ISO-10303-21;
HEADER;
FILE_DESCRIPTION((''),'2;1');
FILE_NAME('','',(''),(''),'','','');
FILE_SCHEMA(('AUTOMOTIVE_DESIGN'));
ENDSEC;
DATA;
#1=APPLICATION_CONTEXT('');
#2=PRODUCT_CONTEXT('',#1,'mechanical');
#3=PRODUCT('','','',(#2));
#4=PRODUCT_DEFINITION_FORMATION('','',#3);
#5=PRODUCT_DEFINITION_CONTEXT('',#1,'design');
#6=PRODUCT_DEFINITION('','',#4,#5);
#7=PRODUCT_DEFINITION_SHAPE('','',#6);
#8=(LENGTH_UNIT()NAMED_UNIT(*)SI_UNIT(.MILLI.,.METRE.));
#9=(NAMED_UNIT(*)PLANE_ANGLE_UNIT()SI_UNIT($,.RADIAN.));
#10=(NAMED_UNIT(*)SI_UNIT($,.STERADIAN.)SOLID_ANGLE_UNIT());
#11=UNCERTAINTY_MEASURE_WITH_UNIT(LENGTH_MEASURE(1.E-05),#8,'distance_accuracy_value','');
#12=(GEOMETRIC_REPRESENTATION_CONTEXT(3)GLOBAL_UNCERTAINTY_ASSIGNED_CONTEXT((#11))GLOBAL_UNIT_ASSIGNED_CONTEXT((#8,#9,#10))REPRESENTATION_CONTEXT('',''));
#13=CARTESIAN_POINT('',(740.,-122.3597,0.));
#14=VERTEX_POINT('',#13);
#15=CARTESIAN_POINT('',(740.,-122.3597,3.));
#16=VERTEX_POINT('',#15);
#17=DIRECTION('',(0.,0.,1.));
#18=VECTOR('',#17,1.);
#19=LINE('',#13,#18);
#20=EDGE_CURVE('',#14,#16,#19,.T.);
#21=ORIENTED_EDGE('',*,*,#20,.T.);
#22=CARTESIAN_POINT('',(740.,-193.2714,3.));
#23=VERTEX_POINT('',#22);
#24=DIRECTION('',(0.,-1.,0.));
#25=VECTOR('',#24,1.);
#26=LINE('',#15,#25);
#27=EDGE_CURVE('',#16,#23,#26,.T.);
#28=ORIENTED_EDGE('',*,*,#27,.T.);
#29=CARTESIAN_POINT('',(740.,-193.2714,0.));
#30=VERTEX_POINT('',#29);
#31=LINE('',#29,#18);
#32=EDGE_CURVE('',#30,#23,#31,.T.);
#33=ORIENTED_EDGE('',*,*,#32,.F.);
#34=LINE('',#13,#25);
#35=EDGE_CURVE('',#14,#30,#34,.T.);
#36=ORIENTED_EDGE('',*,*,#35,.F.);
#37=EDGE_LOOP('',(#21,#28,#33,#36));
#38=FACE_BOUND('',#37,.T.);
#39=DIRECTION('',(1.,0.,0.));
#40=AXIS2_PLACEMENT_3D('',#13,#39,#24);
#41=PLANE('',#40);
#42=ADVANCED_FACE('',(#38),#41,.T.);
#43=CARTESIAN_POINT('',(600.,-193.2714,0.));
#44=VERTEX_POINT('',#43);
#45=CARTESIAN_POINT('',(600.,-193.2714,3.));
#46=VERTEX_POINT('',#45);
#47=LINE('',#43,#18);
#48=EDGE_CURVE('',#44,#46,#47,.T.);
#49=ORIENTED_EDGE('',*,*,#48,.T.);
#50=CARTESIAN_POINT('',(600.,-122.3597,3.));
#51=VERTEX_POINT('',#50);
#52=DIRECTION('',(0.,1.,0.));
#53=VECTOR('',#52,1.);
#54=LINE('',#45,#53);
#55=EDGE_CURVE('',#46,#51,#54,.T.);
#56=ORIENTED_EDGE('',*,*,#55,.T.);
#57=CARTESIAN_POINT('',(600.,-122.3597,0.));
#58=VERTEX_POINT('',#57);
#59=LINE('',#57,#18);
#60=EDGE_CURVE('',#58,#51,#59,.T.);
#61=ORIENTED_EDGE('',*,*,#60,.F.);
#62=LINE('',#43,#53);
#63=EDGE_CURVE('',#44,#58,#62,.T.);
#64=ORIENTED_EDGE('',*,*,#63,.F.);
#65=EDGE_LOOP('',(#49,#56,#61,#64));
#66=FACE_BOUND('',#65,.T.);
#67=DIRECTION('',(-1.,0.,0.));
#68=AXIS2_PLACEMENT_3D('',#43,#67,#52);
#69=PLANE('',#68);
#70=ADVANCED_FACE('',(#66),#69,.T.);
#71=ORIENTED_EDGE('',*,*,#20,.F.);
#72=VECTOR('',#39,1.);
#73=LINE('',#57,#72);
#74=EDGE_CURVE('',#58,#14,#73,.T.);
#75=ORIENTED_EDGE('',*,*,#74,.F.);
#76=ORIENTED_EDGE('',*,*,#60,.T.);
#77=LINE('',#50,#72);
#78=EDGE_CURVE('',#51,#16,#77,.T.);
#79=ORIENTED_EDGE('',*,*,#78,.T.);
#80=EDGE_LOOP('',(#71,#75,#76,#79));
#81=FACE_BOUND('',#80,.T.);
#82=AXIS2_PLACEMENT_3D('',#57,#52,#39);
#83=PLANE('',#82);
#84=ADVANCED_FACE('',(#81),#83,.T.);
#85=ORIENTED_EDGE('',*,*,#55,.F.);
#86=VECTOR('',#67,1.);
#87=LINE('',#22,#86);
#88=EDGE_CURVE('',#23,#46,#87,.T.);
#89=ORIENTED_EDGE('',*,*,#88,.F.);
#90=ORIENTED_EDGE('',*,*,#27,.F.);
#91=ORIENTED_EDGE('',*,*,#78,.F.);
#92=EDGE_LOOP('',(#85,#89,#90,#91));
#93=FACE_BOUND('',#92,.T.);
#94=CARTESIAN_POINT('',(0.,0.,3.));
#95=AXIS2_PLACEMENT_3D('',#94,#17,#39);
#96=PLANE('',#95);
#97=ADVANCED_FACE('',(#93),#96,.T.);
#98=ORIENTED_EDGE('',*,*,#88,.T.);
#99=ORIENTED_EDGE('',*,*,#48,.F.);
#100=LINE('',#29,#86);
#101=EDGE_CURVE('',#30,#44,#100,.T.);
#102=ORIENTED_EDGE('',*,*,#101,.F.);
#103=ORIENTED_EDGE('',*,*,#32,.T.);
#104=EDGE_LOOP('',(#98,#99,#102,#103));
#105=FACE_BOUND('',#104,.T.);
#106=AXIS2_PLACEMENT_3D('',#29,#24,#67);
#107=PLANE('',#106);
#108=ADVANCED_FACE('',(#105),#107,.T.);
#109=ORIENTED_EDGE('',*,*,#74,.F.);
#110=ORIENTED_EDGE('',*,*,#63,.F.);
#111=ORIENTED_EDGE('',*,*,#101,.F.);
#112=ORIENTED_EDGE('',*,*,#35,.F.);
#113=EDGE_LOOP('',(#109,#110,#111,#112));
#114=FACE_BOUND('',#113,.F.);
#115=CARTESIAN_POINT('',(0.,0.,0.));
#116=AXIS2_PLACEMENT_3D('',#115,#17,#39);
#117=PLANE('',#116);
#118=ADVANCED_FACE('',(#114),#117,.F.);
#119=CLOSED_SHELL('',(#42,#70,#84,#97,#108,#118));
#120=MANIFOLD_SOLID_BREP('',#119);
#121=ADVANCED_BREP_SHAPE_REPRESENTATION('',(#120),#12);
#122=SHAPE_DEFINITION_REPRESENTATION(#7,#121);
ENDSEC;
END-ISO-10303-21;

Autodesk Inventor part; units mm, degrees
ref_plane "YZ Plane" through (0, 0, 0) normal (1, 0, 0) x (0, 1, 0)
ref_plane "XZ Plane" through (0, 0, 0) normal (0, 1, 0) x (-1, 0, 0)
ref_plane "XY Plane" through (0, 0, 0) normal (0, 0, 1) x (1, 0, 0)
sketch "Sketch1" plane through (0, 0, 0) normal (0, 0, 1) x (1, 0, 0)
  line L0 (0, 0) -> (140, 0)
  line L1 (140, 0) -> (140, 300)
  line L2 (140, 300) -> (0, 300)
  line L3 (0, 300) -> (0, 0)
  line L4 (10, 290) -> (130, 290)
  line L5 (130, 290) -> (130, 10) construction
  line L6 (130, 10) -> (10, 10) construction
  line L7 (10, 10) -> (10, 290) construction
  line L8 (55.013, 210.0189) -> (44.1329, 210.0189) construction
  line L9 (10, 290) -> (130, 290) construction
  line L10 (70, 311.1686) -> (70, 319.6965) construction
  line L11 (64.8975, 210.0189) -> (64.8975, 204.1374) construction
  line L12 (75.1025, 210.0189) -> (75.1025, 204.1374) construction
  spline S0 degree 4 poles (64.8975, 210.0189) (64.8975, 218.5538) (47.6053, 225.9043) (40.8111, 229.8746) (18.3339, 245.7556) (11.7937, 258.2232) (10, 279.3922) (10, 290) knots 0 0 0 0 0 0.284812 0.471394 0.66948 1 1 1 1 1
  line L13 (10, 290) -> (10, 266.9306) construction
  spline S1 degree 4 poles (75.1025, 210.0189) (75.1025, 218.5538) (92.3947, 225.9043) (99.1889, 229.8746) (121.6661, 245.7556) (128.2063, 258.2232) (130, 279.3922) (130, 290) knots 0 0 0 0 0 0.284812 0.471394 0.66948 1 1 1 1 1
  spline S2 degree 4 poles (64.8975, 210.0189) (64.8975, 201.4839) (47.6053, 194.1334) (40.8111, 190.1632) (18.3339, 174.2821) (11.7937, 161.8145) (10, 140.6455) (10, 130.0377) knots 0 0 0 0 0 0.284812 0.471394 0.66948 1 1 1 1 1
  spline S3 degree 4 poles (75.1025, 210.0189) (75.1025, 201.4839) (92.3947, 194.1334) (99.1889, 190.1632) (121.6661, 174.2821) (128.2063, 161.8145) (130, 140.6455) (130, 130.0377) knots 0 0 0 0 0 0.284812 0.471394 0.66948 1 1 1 1 1
  line L14 (10, 130.0377) -> (10, 10)
  line L15 (130, 130.0377) -> (130, 10)
  line L16 (10, 10) -> (130, 10)
  line L17 (240, 186.8124) -> (240, 163.5372) construction
  line L18 (480, 0) -> (340, 0) construction
  line L19 (340, 0) -> (340, 300) construction
  line L20 (340, 300) -> (480, 300) construction
  line L21 (480, 300) -> (480, 0) construction
  line L22 (470, 290) -> (350, 290) construction
  line L23 (350, 290) -> (350, 10) construction
  line L24 (350, 10) -> (470, 10) construction
  line L25 (470, 10) -> (470, 290) construction
  line L26 (424.987, 210.0189) -> (435.8671, 210.0189) construction
  line L27 (470, 290) -> (350, 290) construction
  line L28 (410, 311.1686) -> (410, 319.6965) construction
  line L29 (415.1025, 210.0189) -> (415.1025, 204.1374) construction
  line L30 (404.8975, 210.0189) -> (404.8975, 204.1374) construction
  spline S4 degree 4 poles (415.1025, 210.0189) (415.1025, 218.5538) (432.3947, 225.9043) (439.1889, 229.8746) (461.6661, 245.7556) (468.2063, 258.2232) (470, 279.3922) (470, 290) knots 0 0 0 0 0 0.284812 0.471394 0.66948 1 1 1 1 1 construction
  line L31 (470, 290) -> (470, 266.9306) construction
  spline S5 degree 4 poles (404.8975, 210.0189) (394.814, 224.8509) (381.6315, 227.4313) (352.9317, 245.1456) (350.4567, 267.2032) (350, 290) knots 0 0 0 0 0 0.471394 1 1 1 1 1 construction
  spline S6 degree 4 poles (415.1025, 210.0189) (425.186, 195.1868) (438.3685, 192.6065) (467.0683, 174.8921) (469.5433, 152.8345) (470, 130.0377) knots 0 0 0 0 0 0.471394 1 1 1 1 1 construction
  spline S7 degree 4 poles (404.8975, 210.0189) (394.814, 195.1868) (381.6315, 192.6065) (352.9317, 174.8921) (350.4567, 152.8345) (350, 130.0377) knots 0 0 0 0 0 0.471394 1 1 1 1 1 construction
  line L32 (355, 14.5) -> (355, 130.0377)
  line L33 (355, 130.0377) -> (357, 130.0377)
  line L34 (357, 130.0377) -> (357, 14.5)
  arc A0 (353.5, 13) -> (355, 14.5) centre (353.5, 14.5) ccw
  arc A1 (351, 14.5) -> (352.5, 13) centre (352.5, 14.5) ccw construction
  line L35 (352.5, 13) -> (353.5, 13)
  arc A2 (357, 14.5) -> (358.5, 13) centre (358.5, 14.5) ccw
  line L36 (358.5, 13) -> (359.5, 13)
  line L37 (361, 14.5) -> (361, 130.0377)
  line L38 (363, 130.0377) -> (363, 14.5)
  arc A3 (359.5, 13) -> (361, 14.5) centre (359.5, 14.5) ccw
  line L39 (361, 130.0377) -> (363, 130.0377)
  arc A4 (363, 14.5) -> (364.5, 13) centre (364.5, 14.5) ccw
  line L40 (364.5, 13) -> (365.5, 13)
  line L41 (367, 14.5) -> (367, 130.0377)
  line L42 (369, 130.0377) -> (369, 14.5)
  arc A5 (365.5, 13) -> (367, 14.5) centre (365.5, 14.5) ccw
  line L43 (367, 130.0377) -> (369, 130.0377)
  arc A6 (369, 14.5) -> (370.5, 13) centre (370.5, 14.5) ccw
  line L44 (370.5, 13) -> (371.5, 13)
  line L45 (373, 14.5) -> (373, 130.0377)
  line L46 (375, 130.0377) -> (375, 14.5)
  arc A7 (371.5, 13) -> (373, 14.5) centre (371.5, 14.5) ccw
  line L47 (373, 130.0377) -> (375, 130.0377)
  arc A8 (375, 14.5) -> (376.5, 13) centre (376.5, 14.5) ccw
  line L48 (376.5, 13) -> (377.5, 13)
  line L49 (379, 14.5) -> (379, 130.0377)
  line L50 (381, 130.0377) -> (381, 14.5)
  arc A9 (377.5, 13) -> (379, 14.5) centre (377.5, 14.5) ccw
  line L51 (379, 130.0377) -> (381, 130.0377)
  arc A10 (381, 14.5) -> (382.5, 13) centre (382.5, 14.5) ccw
  line L52 (382.5, 13) -> (383.5, 13)
  line L53 (385, 14.5) -> (385, 130.0377)
  line L54 (387, 130.0377) -> (387, 14.5)
  arc A11 (383.5, 13) -> (385, 14.5) centre (383.5, 14.5) ccw
  line L55 (385, 130.0377) -> (387, 130.0377)
  arc A12 (387, 14.5) -> (388.5, 13) centre (388.5, 14.5) ccw
  line L56 (388.5, 13) -> (389.5, 13)
  line L57 (391, 14.5) -> (391, 130.0377)
  line L58 (393, 130.0377) -> (393, 14.5)
  arc A13 (389.5, 13) -> (391, 14.5) centre (389.5, 14.5) ccw
  line L59 (391, 130.0377) -> (393, 130.0377)
  arc A14 (393, 14.5) -> (394.5, 13) centre (394.5, 14.5) ccw
  line L60 (394.5, 13) -> (395.5, 13)
  line L61 (397, 14.5) -> (397, 130.0377)
  line L62 (399, 130.0377) -> (399, 14.5)
  arc A15 (395.5, 13) -> (397, 14.5) centre (395.5, 14.5) ccw
  line L63 (397, 130.0377) -> (399, 130.0377)
  arc A16 (399, 14.5) -> (400.5, 13) centre (400.5, 14.5) ccw
  line L64 (400.5, 13) -> (401.5, 13)
  line L65 (403, 14.5) -> (403, 130.0377)
  line L66 (405, 130.0377) -> (405, 14.5)
  arc A17 (401.5, 13) -> (403, 14.5) centre (401.5, 14.5) ccw
  line L67 (403, 130.0377) -> (405, 130.0377)
  arc A18 (405, 14.5) -> (406.5, 13) centre (406.5, 14.5) ccw
  line L68 (406.5, 13) -> (407.5, 13)
  line L69 (409, 14.5) -> (409, 130.0377)
  line L70 (411, 130.0377) -> (411, 14.5)
  arc A19 (407.5, 13) -> (409, 14.5) centre (407.5, 14.5) ccw
  line L71 (409, 130.0377) -> (411, 130.0377)
  arc A20 (411, 14.5) -> (412.5, 13) centre (412.5, 14.5) ccw
  line L72 (412.5, 13) -> (413.5, 13)
  line L73 (415, 14.5) -> (415, 130.0377)
  line L74 (417, 130.0377) -> (417, 14.5)
  arc A21 (413.5, 13) -> (415, 14.5) centre (413.5, 14.5) ccw
  line L75 (415, 130.0377) -> (417, 130.0377)
  arc A22 (417, 14.5) -> (418.5, 13) centre (418.5, 14.5) ccw
  line L76 (418.5, 13) -> (419.5, 13)
  line L77 (421, 14.5) -> (421, 130.0377)
  line L78 (423, 130.0377) -> (423, 14.5)
  arc A23 (419.5, 13) -> (421, 14.5) centre (419.5, 14.5) ccw
  line L79 (421, 130.0377) -> (423, 130.0377)
  arc A24 (423, 14.5) -> (424.5, 13) centre (424.5, 14.5) ccw
  line L80 (424.5, 13) -> (425.5, 13)
  line L81 (427, 14.5) -> (427, 130.0377)
  line L82 (429, 130.0377) -> (429, 14.5)
  arc A25 (425.5, 13) -> (427, 14.5) centre (425.5, 14.5) ccw
  line L83 (427, 130.0377) -> (429, 130.0377)
  arc A26 (429, 14.5) -> (430.5, 13) centre (430.5, 14.5) ccw
  line L84 (430.5, 13) -> (431.5, 13)
  line L85 (433, 14.5) -> (433, 130.0377)
  line L86 (435, 130.0377) -> (435, 14.5)
  arc A27 (431.5, 13) -> (433, 14.5) centre (431.5, 14.5) ccw
  line L87 (433, 130.0377) -> (435, 130.0377)
  arc A28 (435, 14.5) -> (436.5, 13) centre (436.5, 14.5) ccw
  line L88 (436.5, 13) -> (437.5, 13)
  line L89 (439, 14.5) -> (439, 130.0377)
  line L90 (441, 130.0377) -> (441, 14.5)
  arc A29 (437.5, 13) -> (439, 14.5) centre (437.5, 14.5) ccw
  line L91 (439, 130.0377) -> (441, 130.0377)
  arc A30 (441, 14.5) -> (442.5, 13) centre (442.5, 14.5) ccw
  line L92 (442.5, 13) -> (443.5, 13)
  line L93 (445, 14.5) -> (445, 130.0377)
  line L94 (447, 130.0377) -> (447, 14.5)
  arc A31 (443.5, 13) -> (445, 14.5) centre (443.5, 14.5) ccw
  line L95 (445, 130.0377) -> (447, 130.0377)
  arc A32 (447, 14.5) -> (448.5, 13) centre (448.5, 14.5) ccw
  line L96 (448.5, 13) -> (449.5, 13)
  line L97 (451, 14.5) -> (451, 130.0377)
  line L98 (453, 130.0377) -> (453, 14.5)
  arc A33 (449.5, 13) -> (451, 14.5) centre (449.5, 14.5) ccw
  line L99 (451, 130.0377) -> (453, 130.0377)
  arc A34 (453, 14.5) -> (454.5, 13) centre (454.5, 14.5) ccw
  line L100 (454.5, 13) -> (455.5, 13)
  line L101 (457, 14.5) -> (457, 130.0377)
  line L102 (459, 130.0377) -> (459, 14.5)
  arc A35 (455.5, 13) -> (457, 14.5) centre (455.5, 14.5) ccw
  line L103 (457, 130.0377) -> (459, 130.0377)
  arc A36 (459, 14.5) -> (460.5, 13) centre (460.5, 14.5) ccw
  line L104 (460.5, 13) -> (461.5, 13)
  line L105 (463, 14.5) -> (463, 130.0377)
  line L106 (465, 130.0377) -> (465, 14.5)
  arc A37 (461.5, 13) -> (463, 14.5) centre (461.5, 14.5) ccw
  line L107 (463, 130.0377) -> (465, 130.0377)
  arc A38 (465, 14.5) -> (466.5, 13) centre (466.5, 14.5) ccw
  line L108 (466.5, 13) -> (470, 13)
  line L109 (470, 10) -> (470, 13)
  line L110 (470, 10) -> (350, 10)
  line L111 (350, 10) -> (350, 13)
  line L112 (352.5, 13) -> (350, 13)
  line L113 (740, 300) -> (600, 300)
  line L114 (610, 290) -> (730, 290) construction
  line L115 (610, 290) -> (730, 290) construction
  spline S8 degree 4 poles (675.1025, 210.0189) (675.1025, 218.5538) (692.3947, 225.9043) (699.1889, 229.8746) (721.6661, 245.7556) (728.2063, 258.2232) (730, 279.3922) (730, 290) knots 0 0 0 0 0 0.284812 0.471394 0.66948 1 1 1 1 1 construction
  line L116 (664.8975, 210.0189) -> (664.8975, 204.1374) construction
  line L117 (610, 290) -> (610, 266.9306) construction
  spline S9 degree 4 poles (664.8975, 210.0189) (664.8975, 218.5538) (647.6053, 225.9043) (640.8111, 229.8746) (618.3339, 245.7556) (611.7937, 258.2232) (610, 279.3922) (610, 290) knots 0 0 0 0 0 0.284812 0.471394 0.66948 1 1 1 1 1 construction
  line L118 (675.1025, 210.0189) -> (675.1025, 204.1374) construction
  spline S10 degree 4 poles (675.1025, 210.0189) (675.1025, 201.4839) (692.3947, 194.1334) (699.1889, 190.1632) (721.6661, 174.2821) (728.2063, 161.8145) (730, 140.6455) (730, 130.0377) knots 0 0 0 0 0 0.284812 0.471394 0.66948 1 1 1 1 1 construction
  spline S11 degree 4 poles (664.8975, 210.0189) (664.8975, 201.4839) (647.6053, 194.1334) (640.8111, 190.1632) (618.3339, 174.2821) (611.7937, 161.8145) (610, 140.6455) (610, 130.0377) knots 0 0 0 0 0 0.284812 0.471394 0.66948 1 1 1 1 1 construction
  line L119 (730, 290) -> (730, 10) construction
  line L120 (610, 10) -> (610, 290) construction
  line L121 (740, 0) -> (740, 300)
  line L122 (600, 300) -> (600, 0)
  line L123 (610, 130.0377) -> (610, 10) construction
  line L124 (730, 10) -> (610, 10) construction
  line L125 (610, 10) -> (730, 10) construction
  line L126 (730, 130.0377) -> (730, 10) construction
  line L127 (600, 0) -> (740, 0)
  circle A39 centre (670, 187.6403) radius 1.45
  line L128 (661.5147, 179.155) -> (670, 187.6403) construction
  line L129 (670, 187.6403) -> (661.5147, 179.155) construction
  line L130 (661.5147, 179.155) -> (678.4853, 179.155) construction
  line L131 (130, 290) -> (130, 293.3347) construction
  line L132 (730, 290) -> (730, 294.5645) construction
  line L133 (670, 187.6403) -> (667.2579, 190.3824) construction
  line L134 (661.5147, 179.155) -> (658.7726, 181.8971) construction
  circle A40 centre (661.5147, 179.155) radius 1.45
  circle A41 centre (653.0294, 170.6697) radius 1.45
  circle A42 centre (644.5442, 162.1844) radius 1.45
  circle A43 centre (636.0589, 153.6991) radius 1.45
  circle A44 centre (627.5736, 145.2139) radius 1.45
  circle A45 centre (619.0883, 136.7286) radius 1.45
  circle A46 centre (619.0883, 153.6991) radius 1.45
  circle A47 centre (627.5736, 162.1844) radius 1.45
  circle A48 centre (636.0589, 170.6697) radius 1.45
  circle A49 centre (644.5442, 179.155) radius 1.45
  circle A50 centre (653.0294, 187.6403) radius 1.45
  circle A51 centre (686.9706, 187.6403) radius 1.45
  circle A52 centre (678.4853, 179.155) radius 1.45
  circle A53 centre (670, 170.6697) radius 1.45
  circle A54 centre (661.5147, 162.1844) radius 1.45
  circle A55 centre (653.0294, 153.6991) radius 1.45
  circle A56 centre (644.5442, 145.2139) radius 1.45
  circle A57 centre (636.0589, 136.7286) radius 1.45
  circle A58 centre (695.4558, 179.155) radius 1.45
  circle A59 centre (686.9706, 170.6697) radius 1.45
  circle A60 centre (670, 170.6697) radius 1.45
  circle A61 centre (661.5147, 162.1844) radius 1.45
  circle A62 centre (678.4853, 162.1844) radius 1.45
  circle A63 centre (653.0294, 153.6991) radius 1.45
  circle A64 centre (670, 153.6991) radius 1.45
  circle A65 centre (661.5147, 145.2139) radius 1.45
  circle A66 centre (644.5442, 145.2139) radius 1.45
  circle A67 centre (636.0589, 136.7286) radius 1.45
  circle A68 centre (653.0294, 136.7286) radius 1.45
  circle A69 centre (695.4558, 162.1844) radius 1.45
  circle A70 centre (686.9706, 153.6991) radius 1.45
  circle A71 centre (678.4853, 145.2139) radius 1.45
  circle A72 centre (670, 136.7286) radius 1.45
  circle A73 centre (712.4264, 162.1844) radius 1.45
  circle A74 centre (703.9411, 153.6991) radius 1.45
  circle A75 centre (695.4558, 145.2139) radius 1.45
  circle A76 centre (686.9706, 136.7286) radius 1.45
  circle A77 centre (703.9411, 170.6697) radius 1.45
  circle A78 centre (720.9117, 153.6991) radius 1.45
  circle A79 centre (712.4264, 145.2139) radius 1.45
  circle A80 centre (703.9411, 136.7286) radius 1.45
  circle A81 centre (720.9117, 136.7286) radius 1.45
  line L135 (0, 160.5) -> (-18, 160.5)
  line L136 (-18, 160.5) -> (-18, 180.5)
  line L137 (-18, 180.5) -> (0, 180.5) construction
  line L138 (0, 180.5) -> (0, 160.5)
  line L139 (-24.3067, 150) -> (-34.4998, 150) construction
  circle A82 centre (-9, 170.5) radius 3
  line L140 (-18, 180.5) -> (0, 200.5)
  line L141 (0, 139.5) -> (-18, 139.5)
  line L142 (-18, 139.5) -> (-18, 119.5)
  circle A83 centre (-9, 129.5) radius 3
  line L143 (-18, 119.5) -> (0, 99.5)
  line L144 (140, 160.5) -> (158, 160.5)
  line L145 (158, 160.5) -> (158, 180.5)
  circle A84 centre (149, 170.5) radius 3
  line L146 (158, 180.5) -> (140, 200.5)
  line L147 (158, 139.5) -> (158, 119.5)
  line L148 (140, 139.5) -> (158, 139.5)
  circle A85 centre (149, 129.5) radius 3
  line L149 (158, 119.5) -> (140, 99.5)
  line L150 (582, 180.5) -> (600, 200.5)
  line L151 (582, 160.5) -> (582, 180.5)
  circle A86 centre (591, 170.5) radius 3
  line L152 (600, 139.5) -> (582, 139.5)
  circle A87 centre (591, 129.5) radius 3
  line L153 (582, 139.5) -> (582, 119.5)
  line L154 (582, 119.5) -> (600, 99.5)
  line L155 (758, 180.5) -> (740, 200.5)
  line L156 (758, 160.5) -> (758, 180.5)
  circle A88 centre (749, 170.5) radius 3
  line L157 (740, 160.5) -> (758, 160.5)
  line L158 (740, 139.5) -> (758, 139.5)
  circle A89 centre (749, 129.5) radius 3
  line L159 (758, 139.5) -> (758, 119.5)
  line L160 (758, 119.5) -> (740, 99.5)
  line L161 (600, 160.5) -> (582, 160.5)
  line L162 (600, 200.5) -> (600, 300)
  line L163 (600, 300) -> (740, 300)
  line L164 (740, 300) -> (740, 200.5)
  line L165 (740, 160.5) -> (740, 139.5)
  line L166 (740, 99.5) -> (740, 0)
  line L167 (740, 0) -> (600, 0)
  line L168 (600, 0) -> (600, 99.5)
  line L169 (600, 139.5) -> (600, 160.5)
  line L170 (780, 153.6991) -> (780, 161.6118) construction
  line L171 (820, 300) -> (960, 300)
  line L172 (960, 0) -> (820, 0)
  line L173 (978, 180.5) -> (960, 200.5)
  line L174 (978, 160.5) -> (978, 180.5)
  circle A90 centre (969, 170.5) radius 3
  line L175 (960, 139.5) -> (978, 139.5)
  circle A91 centre (969, 129.5) radius 3
  line L176 (978, 139.5) -> (978, 119.5)
  line L177 (978, 119.5) -> (960, 99.5)
  line L178 (802, 180.5) -> (820, 200.5)
  line L179 (802, 160.5) -> (802, 180.5)
  circle A92 centre (811, 170.5) radius 3
  line L180 (820, 160.5) -> (802, 160.5)
  line L181 (820, 139.5) -> (802, 139.5)
  circle A93 centre (811, 129.5) radius 3
  line L182 (802, 139.5) -> (802, 119.5)
  line L183 (802, 119.5) -> (820, 99.5)
  line L184 (960, 160.5) -> (978, 160.5)
  line L185 (960, 200.5) -> (960, 300)
  line L186 (960, 300) -> (820, 300)
  line L187 (820, 300) -> (820, 200.5)
  line L188 (820, 160.5) -> (820, 139.5)
  line L189 (820, 99.5) -> (820, 0)
  line L190 (820, 0) -> (960, 0)
  line L191 (960, 0) -> (960, 99.5)
  line L192 (960, 139.5) -> (960, 160.5)
  line L193 (582, -180.5) -> (582, -200.5) construction
  circle A94 centre (591, -190.5) radius 3 construction
  line L194 (600, -159.5) -> (582, -159.5) construction
  line L195 (600, -180.5) -> (582, -180.5) construction
  line L196 (582, -200.5) -> (600, -220.5) construction
  line L197 (582, -139.5) -> (600, -119.5) construction
  line L198 (582, -159.5) -> (582, -139.5) construction
  circle A95 centre (591, -149.5) radius 3 construction
  circle A96 centre (619.0883, -166.3009) radius 1.45 construction
  circle A97 centre (627.5736, -174.7861) radius 1.45 construction
  circle A98 centre (644.5442, -157.8156) radius 1.45 construction
  circle A99 centre (627.5736, -157.8156) radius 1.45 construction
  circle A100 centre (644.5442, -174.7861) radius 1.45 construction
  circle A101 centre (636.0589, -183.2714) radius 1.45 construction
  line L199 (600, -180.5) -> (600, -159.5) construction
  circle A102 centre (636.0589, -183.2714) radius 1.45 construction
  circle A103 centre (644.5442, -174.7861) radius 1.45 construction
  circle A104 centre (619.0883, -183.2714) radius 1.45 construction
  circle A105 centre (636.0589, -166.3009) radius 1.45 construction
  circle A106 centre (653.0294, -183.2714) radius 1.45 construction
  circle A107 centre (661.5147, -174.7861) radius 1.45 construction
  line L200 (664.8975, -109.9811) -> (664.8975, -115.8626) construction
  line L201 (610, -30) -> (610, -53.0694) construction
  spline S12 degree 4 poles (664.8975, -109.9811) (664.8975, -118.5161) (647.6053, -125.8666) (640.8111, -129.8368) (618.3339, -145.7179) (611.7937, -158.1855) (610, -179.3545) (610, -189.9623) knots 0 0 0 0 0 0.284812 0.471394 0.66948 1 1 1 1 1 construction
  circle A108 centre (670, -149.3303) radius 1.45 construction
  circle A109 centre (678.4853, -140.845) radius 1.45 construction
  circle A110 centre (686.9706, -166.3009) radius 1.45 construction
  circle A111 centre (670, -166.3009) radius 1.45 construction
  circle A112 centre (653.0294, -166.3009) radius 1.45 construction
  circle A113 centre (653.0294, -166.3009) radius 1.45 construction
  spline S13 degree 4 poles (664.8975, -109.9811) (664.8975, -101.4462) (647.6053, -94.0957) (640.8111, -90.1254) (618.3339, -74.2444) (611.7937, -61.7768) (610, -40.6078) (610, -30) knots 0 0 0 0 0 0.284812 0.471394 0.66948 1 1 1 1 1 construction
  circle A114 centre (670, -132.3597) radius 1.45 construction
  circle A115 centre (636.0589, -149.3303) radius 1.45 construction
  circle A116 centre (653.0294, -149.3303) radius 1.45 construction
  circle A117 centre (644.5442, -140.845) radius 1.45 construction
  circle A118 centre (653.0294, -132.3597) radius 1.45 construction
  line L202 (661.5147, -140.845) -> (658.7726, -138.1029) construction
  line L203 (661.5147, -140.845) -> (670, -132.3597) construction
  line L204 (670, -132.3597) -> (661.5147, -140.845) construction
  line L205 (670, -132.3597) -> (667.2579, -129.6176) construction
  line L206 (661.5147, -140.845) -> (678.4853, -140.845) construction
  circle A119 centre (686.9706, -132.3597) radius 1.45 construction
  line L207 (600, -119.5) -> (600, -20) construction
  line L208 (600, -20) -> (740, -20) construction
  line L209 (730, -30) -> (730, -25.4355) construction
  line L210 (740, -20) -> (740, -119.5) construction
  circle A120 centre (661.5147, -140.845) radius 1.45 construction
  line L211 (610, -189.9623) -> (610, -310) construction
  line L212 (600, -320) -> (600, -220.5) construction
  line L213 (730, -310) -> (610, -310) construction
  line L214 (610, -310) -> (730, -310) construction
  line L215 (600, -320) -> (740, -320) construction
  line L216 (740, -320) -> (600, -320) construction
  line L217 (730, -189.9623) -> (730, -310) construction
  line L218 (740, -220.5) -> (740, -320) construction
  line L219 (740, -20) -> (600, -20) construction
  line L220 (675.1025, -109.9811) -> (675.1025, -115.8626) construction
  line L221 (610, -30) -> (730, -30) construction
  line L222 (610, -30) -> (730, -30) construction
  spline S14 degree 4 poles (675.1025, -109.9811) (675.1025, -101.4462) (692.3947, -94.0957) (699.1889, -90.1254) (721.6661, -74.2444) (728.2063, -61.7768) (730, -40.6078) (730, -30) knots 0 0 0 0 0 0.284812 0.471394 0.66948 1 1 1 1 1 construction
  line L223 (610, -310) -> (610, -30) construction
  line L224 (600, -20) -> (600, -320) construction
  line L225 (740, -320) -> (740, -20) construction
  line L226 (730, -30) -> (730, -310) construction
  circle A121 centre (678.4853, -174.7861) radius 1.45 construction
  circle A122 centre (670, -183.2714) radius 1.45 construction
  spline S15 degree 4 poles (675.1025, -109.9811) (675.1025, -118.5161) (692.3947, -125.8666) (699.1889, -129.8368) (721.6661, -145.7179) (728.2063, -158.1855) (730, -179.3545) (730, -189.9623) knots 0 0 0 0 0 0.284812 0.471394 0.66948 1 1 1 1 1 construction
  circle A123 centre (686.9706, -183.2714) radius 1.45 construction
  circle A124 centre (670, -149.3303) radius 1.45 construction
  circle A125 centre (661.5147, -157.8156) radius 1.45 construction
  circle A126 centre (695.4558, -140.845) radius 1.45 construction
  circle A127 centre (686.9706, -149.3303) radius 1.45 construction
  circle A128 centre (678.4853, -157.8156) radius 1.45 construction
  circle A129 centre (703.9411, -149.3303) radius 1.45 construction
  line L227 (758, -139.5) -> (740, -119.5) construction
  circle A130 centre (749, -149.5) radius 3 construction
  line L228 (758, -159.5) -> (758, -139.5) construction
  circle A131 centre (661.5147, -157.8156) radius 1.45 construction
  circle A132 centre (703.9411, -183.2714) radius 1.45 construction
  circle A133 centre (712.4264, -174.7861) radius 1.45 construction
  circle A134 centre (720.9117, -183.2714) radius 1.45 construction
  circle A135 centre (695.4558, -174.7861) radius 1.45 construction
  line L229 (740, -159.5) -> (740, -180.5) construction
  line L230 (758, -200.5) -> (740, -220.5) construction
  circle A136 centre (749, -190.5) radius 3 construction
  line L231 (758, -180.5) -> (758, -200.5) construction
  line L232 (740, -180.5) -> (758, -180.5) construction
  line L233 (740, -159.5) -> (758, -159.5) construction
  circle A137 centre (720.9117, -166.3009) radius 1.45 construction
  circle A138 centre (703.9411, -166.3009) radius 1.45 construction
  circle A139 centre (695.4558, -157.8156) radius 1.45 construction
  circle A140 centre (712.4264, -157.8156) radius 1.45 construction
  line L234 (600, -122.3597) -> (740, -122.3597)
  line L235 (740, -122.3597) -> (740, -193.2714)
  line L236 (740, -193.2714) -> (600, -193.2714)
  line L237 (600, -193.2714) -> (600, -122.3597)
  point P0 (70, 290)
  point P1 (70, 300)
  point P2 (10, 150)
  point P3 (0, 150)
  point P4 (70, 290)
  point P5 (70, 315.4325)
  point P6 (49.5729, 210.0189)
  point P7 (49.5729, 225.4245)
  point P8 (37.5413, 232.3974)
  point P9 (24.0774, 242.8841)
  point P10 (14.2457, 257.8533)
  point P11 (90.4271, 225.4245)
  point P12 (102.4587, 232.3974)
  point P13 (115.9226, 242.8841)
  point P14 (125.7543, 257.8533)
  point P15 (49.5729, 194.6132)
  point P16 (37.5413, 187.6403)
  point P17 (24.0774, 177.1536)
  point P18 (14.2457, 162.1844)
  point P19 (90.4271, 194.6132)
  point P20 (102.4587, 187.6403)
  point P21 (115.9226, 177.1536)
  point P22 (125.7543, 162.1844)
  point P23 (410, 290)
  point P24 (410, 300)
  point P25 (470, 150)
  point P26 (480, 150)
  point P27 (410, 290)
  point P28 (410, 315.4325)
  point P29 (430.4271, 210.0189)
  point P30 (430.4271, 225.4245)
  point P31 (442.4587, 232.3974)
  point P32 (455.9226, 242.8841)
  point P33 (465.7543, 257.8533)
  point P34 (389.5729, 225.4245)
  point P35 (377.5413, 232.3974)
  point P36 (364.0774, 242.8841)
  point P37 (354.2457, 257.8533)
  point P38 (430.4271, 194.6132)
  point P39 (442.4587, 187.6403)
  point P40 (455.9226, 177.1536)
  point P41 (465.7543, 162.1844)
  point P42 (389.5729, 194.6132)
  point P43 (377.5413, 187.6403)
  point P44 (364.0774, 177.1536)
  point P45 (354.2457, 162.1844)
  point P46 (356, 130.0377)
  point P47 (362, 130.0377)
  point P48 (368, 130.0377)
  point P49 (374, 130.0377)
  point P50 (380, 130.0377)
  point P51 (386, 130.0377)
  point P52 (392, 130.0377)
  point P53 (398, 130.0377)
  point P54 (404, 130.0377)
  point P55 (410, 130.0377)
  point P56 (416, 130.0377)
  point P57 (422, 130.0377)
  point P58 (428, 130.0377)
  point P59 (434, 130.0377)
  point P60 (440, 130.0377)
  point P61 (446, 130.0377)
  point P62 (452, 130.0377)
  point P63 (458, 130.0377)
  point P64 (464, 130.0377)
  point P65 (410, 130.0377)
  point P66 (410, 315.4325)
  point P67 (670, 300)
  point P68 (670, 290)
  point P69 (670, 290)
  point P70 (690.4271, 225.4245)
  point P71 (702.4587, 232.3974)
  point P72 (715.9226, 242.8841)
  point P73 (725.7543, 257.8533)
  point P74 (649.5729, 225.4245)
  point P75 (637.5413, 232.3974)
  point P76 (624.0774, 242.8841)
  point P77 (614.2457, 257.8533)
  point P78 (690.4271, 194.6132)
  point P79 (649.5729, 194.6132)
  point P80 (702.4587, 187.6403)
  point P81 (637.5413, 187.6403)
  point P82 (715.9226, 177.1536)
  point P83 (624.0774, 177.1536)
  point P84 (614.2457, 162.1844)
  point P85 (725.7543, 162.1844)
  point P86 (610, 150)
  point P87 (600, 150)
  point P88 (670, 179.155)
  point P89 (670, 300)
  point P90 (-29.4032, 150)
  point P91 (-18, 170.5)
  point P92 (-9, 180.5)
  point P93 (582, 170.5)
  point P94 (890, 300)
  point P95 (960, 150)
  point P96 (890, 300)
  point P97 (978, 170.5)
  point P98 (582, -149.5)
  point P99 (600, -170)
  point P100 (670, -30)
  point P101 (670, -30)
  point P102 (670, -20)
  point P103 (637.5413, -132.3597)
  point P104 (624.0774, -142.8464)
  point P105 (614.2457, -157.8156)
  point P106 (649.5729, -125.3868)
  point P107 (610, -170)
  point P108 (670, -140.845)
  point P109 (649.5729, -94.5755)
  point P110 (637.5413, -87.6026)
  point P111 (624.0774, -77.1159)
  point P112 (614.2457, -62.1467)
  point P113 (670, -20)
  point P114 (690.4271, -94.5755)
  point P115 (702.4587, -87.6026)
  point P116 (725.7543, -62.1467)
  point P117 (702.4587, -132.3597)
  point P118 (715.9226, -77.1159)
  point P119 (690.4271, -125.3868)
  point P120 (715.9226, -142.8464)
  point P121 (725.7543, -157.8156)
  dimension "d0" = 140
  dimension "d1" = 300
  dimension "d2" = 10
  dimension "d3" = 10
  dimension "d5" = 100
  dimension "d6" = 2
  dimension "d9" = 79.9811
  dimension "d12" = 1.5
  dimension "d13" = 1.5
  dimension "d15" = 4
  dimension "d18" = 6
  dimension "d23" = 3
  dimension "d26" = 600
  dimension "d33" = 2.9
  dimension "d34" = 45
  dimension "d35" = 12
  dimension "d38" = 12
  dimension "d45" = 16.9706
  dimension "d52" = 16.9706
  dimension "d59" = 16.9706
  dimension "d66" = 16.9706
  dimension "d73" = 16.9706
  dimension "d80" = 16.9706
  dimension "d85" = 18
  dimension "d86" = 20
  dimension "d87" = 10.5
  dimension "d88" = 6
  dimension "d89" = 20
  dimension "d92" = 600
  dimension "d97" = 10.2051
  dimension "d98" = 40
  dimension "d101" = 320
  dimension "d106" = 10
  dimension "d107" = 10
extrude "Extrusion1" add sketch "Sketch1" along normal blind 3 contours L234 L235 L236 L237
properties part number "SGB-5-backcover"
